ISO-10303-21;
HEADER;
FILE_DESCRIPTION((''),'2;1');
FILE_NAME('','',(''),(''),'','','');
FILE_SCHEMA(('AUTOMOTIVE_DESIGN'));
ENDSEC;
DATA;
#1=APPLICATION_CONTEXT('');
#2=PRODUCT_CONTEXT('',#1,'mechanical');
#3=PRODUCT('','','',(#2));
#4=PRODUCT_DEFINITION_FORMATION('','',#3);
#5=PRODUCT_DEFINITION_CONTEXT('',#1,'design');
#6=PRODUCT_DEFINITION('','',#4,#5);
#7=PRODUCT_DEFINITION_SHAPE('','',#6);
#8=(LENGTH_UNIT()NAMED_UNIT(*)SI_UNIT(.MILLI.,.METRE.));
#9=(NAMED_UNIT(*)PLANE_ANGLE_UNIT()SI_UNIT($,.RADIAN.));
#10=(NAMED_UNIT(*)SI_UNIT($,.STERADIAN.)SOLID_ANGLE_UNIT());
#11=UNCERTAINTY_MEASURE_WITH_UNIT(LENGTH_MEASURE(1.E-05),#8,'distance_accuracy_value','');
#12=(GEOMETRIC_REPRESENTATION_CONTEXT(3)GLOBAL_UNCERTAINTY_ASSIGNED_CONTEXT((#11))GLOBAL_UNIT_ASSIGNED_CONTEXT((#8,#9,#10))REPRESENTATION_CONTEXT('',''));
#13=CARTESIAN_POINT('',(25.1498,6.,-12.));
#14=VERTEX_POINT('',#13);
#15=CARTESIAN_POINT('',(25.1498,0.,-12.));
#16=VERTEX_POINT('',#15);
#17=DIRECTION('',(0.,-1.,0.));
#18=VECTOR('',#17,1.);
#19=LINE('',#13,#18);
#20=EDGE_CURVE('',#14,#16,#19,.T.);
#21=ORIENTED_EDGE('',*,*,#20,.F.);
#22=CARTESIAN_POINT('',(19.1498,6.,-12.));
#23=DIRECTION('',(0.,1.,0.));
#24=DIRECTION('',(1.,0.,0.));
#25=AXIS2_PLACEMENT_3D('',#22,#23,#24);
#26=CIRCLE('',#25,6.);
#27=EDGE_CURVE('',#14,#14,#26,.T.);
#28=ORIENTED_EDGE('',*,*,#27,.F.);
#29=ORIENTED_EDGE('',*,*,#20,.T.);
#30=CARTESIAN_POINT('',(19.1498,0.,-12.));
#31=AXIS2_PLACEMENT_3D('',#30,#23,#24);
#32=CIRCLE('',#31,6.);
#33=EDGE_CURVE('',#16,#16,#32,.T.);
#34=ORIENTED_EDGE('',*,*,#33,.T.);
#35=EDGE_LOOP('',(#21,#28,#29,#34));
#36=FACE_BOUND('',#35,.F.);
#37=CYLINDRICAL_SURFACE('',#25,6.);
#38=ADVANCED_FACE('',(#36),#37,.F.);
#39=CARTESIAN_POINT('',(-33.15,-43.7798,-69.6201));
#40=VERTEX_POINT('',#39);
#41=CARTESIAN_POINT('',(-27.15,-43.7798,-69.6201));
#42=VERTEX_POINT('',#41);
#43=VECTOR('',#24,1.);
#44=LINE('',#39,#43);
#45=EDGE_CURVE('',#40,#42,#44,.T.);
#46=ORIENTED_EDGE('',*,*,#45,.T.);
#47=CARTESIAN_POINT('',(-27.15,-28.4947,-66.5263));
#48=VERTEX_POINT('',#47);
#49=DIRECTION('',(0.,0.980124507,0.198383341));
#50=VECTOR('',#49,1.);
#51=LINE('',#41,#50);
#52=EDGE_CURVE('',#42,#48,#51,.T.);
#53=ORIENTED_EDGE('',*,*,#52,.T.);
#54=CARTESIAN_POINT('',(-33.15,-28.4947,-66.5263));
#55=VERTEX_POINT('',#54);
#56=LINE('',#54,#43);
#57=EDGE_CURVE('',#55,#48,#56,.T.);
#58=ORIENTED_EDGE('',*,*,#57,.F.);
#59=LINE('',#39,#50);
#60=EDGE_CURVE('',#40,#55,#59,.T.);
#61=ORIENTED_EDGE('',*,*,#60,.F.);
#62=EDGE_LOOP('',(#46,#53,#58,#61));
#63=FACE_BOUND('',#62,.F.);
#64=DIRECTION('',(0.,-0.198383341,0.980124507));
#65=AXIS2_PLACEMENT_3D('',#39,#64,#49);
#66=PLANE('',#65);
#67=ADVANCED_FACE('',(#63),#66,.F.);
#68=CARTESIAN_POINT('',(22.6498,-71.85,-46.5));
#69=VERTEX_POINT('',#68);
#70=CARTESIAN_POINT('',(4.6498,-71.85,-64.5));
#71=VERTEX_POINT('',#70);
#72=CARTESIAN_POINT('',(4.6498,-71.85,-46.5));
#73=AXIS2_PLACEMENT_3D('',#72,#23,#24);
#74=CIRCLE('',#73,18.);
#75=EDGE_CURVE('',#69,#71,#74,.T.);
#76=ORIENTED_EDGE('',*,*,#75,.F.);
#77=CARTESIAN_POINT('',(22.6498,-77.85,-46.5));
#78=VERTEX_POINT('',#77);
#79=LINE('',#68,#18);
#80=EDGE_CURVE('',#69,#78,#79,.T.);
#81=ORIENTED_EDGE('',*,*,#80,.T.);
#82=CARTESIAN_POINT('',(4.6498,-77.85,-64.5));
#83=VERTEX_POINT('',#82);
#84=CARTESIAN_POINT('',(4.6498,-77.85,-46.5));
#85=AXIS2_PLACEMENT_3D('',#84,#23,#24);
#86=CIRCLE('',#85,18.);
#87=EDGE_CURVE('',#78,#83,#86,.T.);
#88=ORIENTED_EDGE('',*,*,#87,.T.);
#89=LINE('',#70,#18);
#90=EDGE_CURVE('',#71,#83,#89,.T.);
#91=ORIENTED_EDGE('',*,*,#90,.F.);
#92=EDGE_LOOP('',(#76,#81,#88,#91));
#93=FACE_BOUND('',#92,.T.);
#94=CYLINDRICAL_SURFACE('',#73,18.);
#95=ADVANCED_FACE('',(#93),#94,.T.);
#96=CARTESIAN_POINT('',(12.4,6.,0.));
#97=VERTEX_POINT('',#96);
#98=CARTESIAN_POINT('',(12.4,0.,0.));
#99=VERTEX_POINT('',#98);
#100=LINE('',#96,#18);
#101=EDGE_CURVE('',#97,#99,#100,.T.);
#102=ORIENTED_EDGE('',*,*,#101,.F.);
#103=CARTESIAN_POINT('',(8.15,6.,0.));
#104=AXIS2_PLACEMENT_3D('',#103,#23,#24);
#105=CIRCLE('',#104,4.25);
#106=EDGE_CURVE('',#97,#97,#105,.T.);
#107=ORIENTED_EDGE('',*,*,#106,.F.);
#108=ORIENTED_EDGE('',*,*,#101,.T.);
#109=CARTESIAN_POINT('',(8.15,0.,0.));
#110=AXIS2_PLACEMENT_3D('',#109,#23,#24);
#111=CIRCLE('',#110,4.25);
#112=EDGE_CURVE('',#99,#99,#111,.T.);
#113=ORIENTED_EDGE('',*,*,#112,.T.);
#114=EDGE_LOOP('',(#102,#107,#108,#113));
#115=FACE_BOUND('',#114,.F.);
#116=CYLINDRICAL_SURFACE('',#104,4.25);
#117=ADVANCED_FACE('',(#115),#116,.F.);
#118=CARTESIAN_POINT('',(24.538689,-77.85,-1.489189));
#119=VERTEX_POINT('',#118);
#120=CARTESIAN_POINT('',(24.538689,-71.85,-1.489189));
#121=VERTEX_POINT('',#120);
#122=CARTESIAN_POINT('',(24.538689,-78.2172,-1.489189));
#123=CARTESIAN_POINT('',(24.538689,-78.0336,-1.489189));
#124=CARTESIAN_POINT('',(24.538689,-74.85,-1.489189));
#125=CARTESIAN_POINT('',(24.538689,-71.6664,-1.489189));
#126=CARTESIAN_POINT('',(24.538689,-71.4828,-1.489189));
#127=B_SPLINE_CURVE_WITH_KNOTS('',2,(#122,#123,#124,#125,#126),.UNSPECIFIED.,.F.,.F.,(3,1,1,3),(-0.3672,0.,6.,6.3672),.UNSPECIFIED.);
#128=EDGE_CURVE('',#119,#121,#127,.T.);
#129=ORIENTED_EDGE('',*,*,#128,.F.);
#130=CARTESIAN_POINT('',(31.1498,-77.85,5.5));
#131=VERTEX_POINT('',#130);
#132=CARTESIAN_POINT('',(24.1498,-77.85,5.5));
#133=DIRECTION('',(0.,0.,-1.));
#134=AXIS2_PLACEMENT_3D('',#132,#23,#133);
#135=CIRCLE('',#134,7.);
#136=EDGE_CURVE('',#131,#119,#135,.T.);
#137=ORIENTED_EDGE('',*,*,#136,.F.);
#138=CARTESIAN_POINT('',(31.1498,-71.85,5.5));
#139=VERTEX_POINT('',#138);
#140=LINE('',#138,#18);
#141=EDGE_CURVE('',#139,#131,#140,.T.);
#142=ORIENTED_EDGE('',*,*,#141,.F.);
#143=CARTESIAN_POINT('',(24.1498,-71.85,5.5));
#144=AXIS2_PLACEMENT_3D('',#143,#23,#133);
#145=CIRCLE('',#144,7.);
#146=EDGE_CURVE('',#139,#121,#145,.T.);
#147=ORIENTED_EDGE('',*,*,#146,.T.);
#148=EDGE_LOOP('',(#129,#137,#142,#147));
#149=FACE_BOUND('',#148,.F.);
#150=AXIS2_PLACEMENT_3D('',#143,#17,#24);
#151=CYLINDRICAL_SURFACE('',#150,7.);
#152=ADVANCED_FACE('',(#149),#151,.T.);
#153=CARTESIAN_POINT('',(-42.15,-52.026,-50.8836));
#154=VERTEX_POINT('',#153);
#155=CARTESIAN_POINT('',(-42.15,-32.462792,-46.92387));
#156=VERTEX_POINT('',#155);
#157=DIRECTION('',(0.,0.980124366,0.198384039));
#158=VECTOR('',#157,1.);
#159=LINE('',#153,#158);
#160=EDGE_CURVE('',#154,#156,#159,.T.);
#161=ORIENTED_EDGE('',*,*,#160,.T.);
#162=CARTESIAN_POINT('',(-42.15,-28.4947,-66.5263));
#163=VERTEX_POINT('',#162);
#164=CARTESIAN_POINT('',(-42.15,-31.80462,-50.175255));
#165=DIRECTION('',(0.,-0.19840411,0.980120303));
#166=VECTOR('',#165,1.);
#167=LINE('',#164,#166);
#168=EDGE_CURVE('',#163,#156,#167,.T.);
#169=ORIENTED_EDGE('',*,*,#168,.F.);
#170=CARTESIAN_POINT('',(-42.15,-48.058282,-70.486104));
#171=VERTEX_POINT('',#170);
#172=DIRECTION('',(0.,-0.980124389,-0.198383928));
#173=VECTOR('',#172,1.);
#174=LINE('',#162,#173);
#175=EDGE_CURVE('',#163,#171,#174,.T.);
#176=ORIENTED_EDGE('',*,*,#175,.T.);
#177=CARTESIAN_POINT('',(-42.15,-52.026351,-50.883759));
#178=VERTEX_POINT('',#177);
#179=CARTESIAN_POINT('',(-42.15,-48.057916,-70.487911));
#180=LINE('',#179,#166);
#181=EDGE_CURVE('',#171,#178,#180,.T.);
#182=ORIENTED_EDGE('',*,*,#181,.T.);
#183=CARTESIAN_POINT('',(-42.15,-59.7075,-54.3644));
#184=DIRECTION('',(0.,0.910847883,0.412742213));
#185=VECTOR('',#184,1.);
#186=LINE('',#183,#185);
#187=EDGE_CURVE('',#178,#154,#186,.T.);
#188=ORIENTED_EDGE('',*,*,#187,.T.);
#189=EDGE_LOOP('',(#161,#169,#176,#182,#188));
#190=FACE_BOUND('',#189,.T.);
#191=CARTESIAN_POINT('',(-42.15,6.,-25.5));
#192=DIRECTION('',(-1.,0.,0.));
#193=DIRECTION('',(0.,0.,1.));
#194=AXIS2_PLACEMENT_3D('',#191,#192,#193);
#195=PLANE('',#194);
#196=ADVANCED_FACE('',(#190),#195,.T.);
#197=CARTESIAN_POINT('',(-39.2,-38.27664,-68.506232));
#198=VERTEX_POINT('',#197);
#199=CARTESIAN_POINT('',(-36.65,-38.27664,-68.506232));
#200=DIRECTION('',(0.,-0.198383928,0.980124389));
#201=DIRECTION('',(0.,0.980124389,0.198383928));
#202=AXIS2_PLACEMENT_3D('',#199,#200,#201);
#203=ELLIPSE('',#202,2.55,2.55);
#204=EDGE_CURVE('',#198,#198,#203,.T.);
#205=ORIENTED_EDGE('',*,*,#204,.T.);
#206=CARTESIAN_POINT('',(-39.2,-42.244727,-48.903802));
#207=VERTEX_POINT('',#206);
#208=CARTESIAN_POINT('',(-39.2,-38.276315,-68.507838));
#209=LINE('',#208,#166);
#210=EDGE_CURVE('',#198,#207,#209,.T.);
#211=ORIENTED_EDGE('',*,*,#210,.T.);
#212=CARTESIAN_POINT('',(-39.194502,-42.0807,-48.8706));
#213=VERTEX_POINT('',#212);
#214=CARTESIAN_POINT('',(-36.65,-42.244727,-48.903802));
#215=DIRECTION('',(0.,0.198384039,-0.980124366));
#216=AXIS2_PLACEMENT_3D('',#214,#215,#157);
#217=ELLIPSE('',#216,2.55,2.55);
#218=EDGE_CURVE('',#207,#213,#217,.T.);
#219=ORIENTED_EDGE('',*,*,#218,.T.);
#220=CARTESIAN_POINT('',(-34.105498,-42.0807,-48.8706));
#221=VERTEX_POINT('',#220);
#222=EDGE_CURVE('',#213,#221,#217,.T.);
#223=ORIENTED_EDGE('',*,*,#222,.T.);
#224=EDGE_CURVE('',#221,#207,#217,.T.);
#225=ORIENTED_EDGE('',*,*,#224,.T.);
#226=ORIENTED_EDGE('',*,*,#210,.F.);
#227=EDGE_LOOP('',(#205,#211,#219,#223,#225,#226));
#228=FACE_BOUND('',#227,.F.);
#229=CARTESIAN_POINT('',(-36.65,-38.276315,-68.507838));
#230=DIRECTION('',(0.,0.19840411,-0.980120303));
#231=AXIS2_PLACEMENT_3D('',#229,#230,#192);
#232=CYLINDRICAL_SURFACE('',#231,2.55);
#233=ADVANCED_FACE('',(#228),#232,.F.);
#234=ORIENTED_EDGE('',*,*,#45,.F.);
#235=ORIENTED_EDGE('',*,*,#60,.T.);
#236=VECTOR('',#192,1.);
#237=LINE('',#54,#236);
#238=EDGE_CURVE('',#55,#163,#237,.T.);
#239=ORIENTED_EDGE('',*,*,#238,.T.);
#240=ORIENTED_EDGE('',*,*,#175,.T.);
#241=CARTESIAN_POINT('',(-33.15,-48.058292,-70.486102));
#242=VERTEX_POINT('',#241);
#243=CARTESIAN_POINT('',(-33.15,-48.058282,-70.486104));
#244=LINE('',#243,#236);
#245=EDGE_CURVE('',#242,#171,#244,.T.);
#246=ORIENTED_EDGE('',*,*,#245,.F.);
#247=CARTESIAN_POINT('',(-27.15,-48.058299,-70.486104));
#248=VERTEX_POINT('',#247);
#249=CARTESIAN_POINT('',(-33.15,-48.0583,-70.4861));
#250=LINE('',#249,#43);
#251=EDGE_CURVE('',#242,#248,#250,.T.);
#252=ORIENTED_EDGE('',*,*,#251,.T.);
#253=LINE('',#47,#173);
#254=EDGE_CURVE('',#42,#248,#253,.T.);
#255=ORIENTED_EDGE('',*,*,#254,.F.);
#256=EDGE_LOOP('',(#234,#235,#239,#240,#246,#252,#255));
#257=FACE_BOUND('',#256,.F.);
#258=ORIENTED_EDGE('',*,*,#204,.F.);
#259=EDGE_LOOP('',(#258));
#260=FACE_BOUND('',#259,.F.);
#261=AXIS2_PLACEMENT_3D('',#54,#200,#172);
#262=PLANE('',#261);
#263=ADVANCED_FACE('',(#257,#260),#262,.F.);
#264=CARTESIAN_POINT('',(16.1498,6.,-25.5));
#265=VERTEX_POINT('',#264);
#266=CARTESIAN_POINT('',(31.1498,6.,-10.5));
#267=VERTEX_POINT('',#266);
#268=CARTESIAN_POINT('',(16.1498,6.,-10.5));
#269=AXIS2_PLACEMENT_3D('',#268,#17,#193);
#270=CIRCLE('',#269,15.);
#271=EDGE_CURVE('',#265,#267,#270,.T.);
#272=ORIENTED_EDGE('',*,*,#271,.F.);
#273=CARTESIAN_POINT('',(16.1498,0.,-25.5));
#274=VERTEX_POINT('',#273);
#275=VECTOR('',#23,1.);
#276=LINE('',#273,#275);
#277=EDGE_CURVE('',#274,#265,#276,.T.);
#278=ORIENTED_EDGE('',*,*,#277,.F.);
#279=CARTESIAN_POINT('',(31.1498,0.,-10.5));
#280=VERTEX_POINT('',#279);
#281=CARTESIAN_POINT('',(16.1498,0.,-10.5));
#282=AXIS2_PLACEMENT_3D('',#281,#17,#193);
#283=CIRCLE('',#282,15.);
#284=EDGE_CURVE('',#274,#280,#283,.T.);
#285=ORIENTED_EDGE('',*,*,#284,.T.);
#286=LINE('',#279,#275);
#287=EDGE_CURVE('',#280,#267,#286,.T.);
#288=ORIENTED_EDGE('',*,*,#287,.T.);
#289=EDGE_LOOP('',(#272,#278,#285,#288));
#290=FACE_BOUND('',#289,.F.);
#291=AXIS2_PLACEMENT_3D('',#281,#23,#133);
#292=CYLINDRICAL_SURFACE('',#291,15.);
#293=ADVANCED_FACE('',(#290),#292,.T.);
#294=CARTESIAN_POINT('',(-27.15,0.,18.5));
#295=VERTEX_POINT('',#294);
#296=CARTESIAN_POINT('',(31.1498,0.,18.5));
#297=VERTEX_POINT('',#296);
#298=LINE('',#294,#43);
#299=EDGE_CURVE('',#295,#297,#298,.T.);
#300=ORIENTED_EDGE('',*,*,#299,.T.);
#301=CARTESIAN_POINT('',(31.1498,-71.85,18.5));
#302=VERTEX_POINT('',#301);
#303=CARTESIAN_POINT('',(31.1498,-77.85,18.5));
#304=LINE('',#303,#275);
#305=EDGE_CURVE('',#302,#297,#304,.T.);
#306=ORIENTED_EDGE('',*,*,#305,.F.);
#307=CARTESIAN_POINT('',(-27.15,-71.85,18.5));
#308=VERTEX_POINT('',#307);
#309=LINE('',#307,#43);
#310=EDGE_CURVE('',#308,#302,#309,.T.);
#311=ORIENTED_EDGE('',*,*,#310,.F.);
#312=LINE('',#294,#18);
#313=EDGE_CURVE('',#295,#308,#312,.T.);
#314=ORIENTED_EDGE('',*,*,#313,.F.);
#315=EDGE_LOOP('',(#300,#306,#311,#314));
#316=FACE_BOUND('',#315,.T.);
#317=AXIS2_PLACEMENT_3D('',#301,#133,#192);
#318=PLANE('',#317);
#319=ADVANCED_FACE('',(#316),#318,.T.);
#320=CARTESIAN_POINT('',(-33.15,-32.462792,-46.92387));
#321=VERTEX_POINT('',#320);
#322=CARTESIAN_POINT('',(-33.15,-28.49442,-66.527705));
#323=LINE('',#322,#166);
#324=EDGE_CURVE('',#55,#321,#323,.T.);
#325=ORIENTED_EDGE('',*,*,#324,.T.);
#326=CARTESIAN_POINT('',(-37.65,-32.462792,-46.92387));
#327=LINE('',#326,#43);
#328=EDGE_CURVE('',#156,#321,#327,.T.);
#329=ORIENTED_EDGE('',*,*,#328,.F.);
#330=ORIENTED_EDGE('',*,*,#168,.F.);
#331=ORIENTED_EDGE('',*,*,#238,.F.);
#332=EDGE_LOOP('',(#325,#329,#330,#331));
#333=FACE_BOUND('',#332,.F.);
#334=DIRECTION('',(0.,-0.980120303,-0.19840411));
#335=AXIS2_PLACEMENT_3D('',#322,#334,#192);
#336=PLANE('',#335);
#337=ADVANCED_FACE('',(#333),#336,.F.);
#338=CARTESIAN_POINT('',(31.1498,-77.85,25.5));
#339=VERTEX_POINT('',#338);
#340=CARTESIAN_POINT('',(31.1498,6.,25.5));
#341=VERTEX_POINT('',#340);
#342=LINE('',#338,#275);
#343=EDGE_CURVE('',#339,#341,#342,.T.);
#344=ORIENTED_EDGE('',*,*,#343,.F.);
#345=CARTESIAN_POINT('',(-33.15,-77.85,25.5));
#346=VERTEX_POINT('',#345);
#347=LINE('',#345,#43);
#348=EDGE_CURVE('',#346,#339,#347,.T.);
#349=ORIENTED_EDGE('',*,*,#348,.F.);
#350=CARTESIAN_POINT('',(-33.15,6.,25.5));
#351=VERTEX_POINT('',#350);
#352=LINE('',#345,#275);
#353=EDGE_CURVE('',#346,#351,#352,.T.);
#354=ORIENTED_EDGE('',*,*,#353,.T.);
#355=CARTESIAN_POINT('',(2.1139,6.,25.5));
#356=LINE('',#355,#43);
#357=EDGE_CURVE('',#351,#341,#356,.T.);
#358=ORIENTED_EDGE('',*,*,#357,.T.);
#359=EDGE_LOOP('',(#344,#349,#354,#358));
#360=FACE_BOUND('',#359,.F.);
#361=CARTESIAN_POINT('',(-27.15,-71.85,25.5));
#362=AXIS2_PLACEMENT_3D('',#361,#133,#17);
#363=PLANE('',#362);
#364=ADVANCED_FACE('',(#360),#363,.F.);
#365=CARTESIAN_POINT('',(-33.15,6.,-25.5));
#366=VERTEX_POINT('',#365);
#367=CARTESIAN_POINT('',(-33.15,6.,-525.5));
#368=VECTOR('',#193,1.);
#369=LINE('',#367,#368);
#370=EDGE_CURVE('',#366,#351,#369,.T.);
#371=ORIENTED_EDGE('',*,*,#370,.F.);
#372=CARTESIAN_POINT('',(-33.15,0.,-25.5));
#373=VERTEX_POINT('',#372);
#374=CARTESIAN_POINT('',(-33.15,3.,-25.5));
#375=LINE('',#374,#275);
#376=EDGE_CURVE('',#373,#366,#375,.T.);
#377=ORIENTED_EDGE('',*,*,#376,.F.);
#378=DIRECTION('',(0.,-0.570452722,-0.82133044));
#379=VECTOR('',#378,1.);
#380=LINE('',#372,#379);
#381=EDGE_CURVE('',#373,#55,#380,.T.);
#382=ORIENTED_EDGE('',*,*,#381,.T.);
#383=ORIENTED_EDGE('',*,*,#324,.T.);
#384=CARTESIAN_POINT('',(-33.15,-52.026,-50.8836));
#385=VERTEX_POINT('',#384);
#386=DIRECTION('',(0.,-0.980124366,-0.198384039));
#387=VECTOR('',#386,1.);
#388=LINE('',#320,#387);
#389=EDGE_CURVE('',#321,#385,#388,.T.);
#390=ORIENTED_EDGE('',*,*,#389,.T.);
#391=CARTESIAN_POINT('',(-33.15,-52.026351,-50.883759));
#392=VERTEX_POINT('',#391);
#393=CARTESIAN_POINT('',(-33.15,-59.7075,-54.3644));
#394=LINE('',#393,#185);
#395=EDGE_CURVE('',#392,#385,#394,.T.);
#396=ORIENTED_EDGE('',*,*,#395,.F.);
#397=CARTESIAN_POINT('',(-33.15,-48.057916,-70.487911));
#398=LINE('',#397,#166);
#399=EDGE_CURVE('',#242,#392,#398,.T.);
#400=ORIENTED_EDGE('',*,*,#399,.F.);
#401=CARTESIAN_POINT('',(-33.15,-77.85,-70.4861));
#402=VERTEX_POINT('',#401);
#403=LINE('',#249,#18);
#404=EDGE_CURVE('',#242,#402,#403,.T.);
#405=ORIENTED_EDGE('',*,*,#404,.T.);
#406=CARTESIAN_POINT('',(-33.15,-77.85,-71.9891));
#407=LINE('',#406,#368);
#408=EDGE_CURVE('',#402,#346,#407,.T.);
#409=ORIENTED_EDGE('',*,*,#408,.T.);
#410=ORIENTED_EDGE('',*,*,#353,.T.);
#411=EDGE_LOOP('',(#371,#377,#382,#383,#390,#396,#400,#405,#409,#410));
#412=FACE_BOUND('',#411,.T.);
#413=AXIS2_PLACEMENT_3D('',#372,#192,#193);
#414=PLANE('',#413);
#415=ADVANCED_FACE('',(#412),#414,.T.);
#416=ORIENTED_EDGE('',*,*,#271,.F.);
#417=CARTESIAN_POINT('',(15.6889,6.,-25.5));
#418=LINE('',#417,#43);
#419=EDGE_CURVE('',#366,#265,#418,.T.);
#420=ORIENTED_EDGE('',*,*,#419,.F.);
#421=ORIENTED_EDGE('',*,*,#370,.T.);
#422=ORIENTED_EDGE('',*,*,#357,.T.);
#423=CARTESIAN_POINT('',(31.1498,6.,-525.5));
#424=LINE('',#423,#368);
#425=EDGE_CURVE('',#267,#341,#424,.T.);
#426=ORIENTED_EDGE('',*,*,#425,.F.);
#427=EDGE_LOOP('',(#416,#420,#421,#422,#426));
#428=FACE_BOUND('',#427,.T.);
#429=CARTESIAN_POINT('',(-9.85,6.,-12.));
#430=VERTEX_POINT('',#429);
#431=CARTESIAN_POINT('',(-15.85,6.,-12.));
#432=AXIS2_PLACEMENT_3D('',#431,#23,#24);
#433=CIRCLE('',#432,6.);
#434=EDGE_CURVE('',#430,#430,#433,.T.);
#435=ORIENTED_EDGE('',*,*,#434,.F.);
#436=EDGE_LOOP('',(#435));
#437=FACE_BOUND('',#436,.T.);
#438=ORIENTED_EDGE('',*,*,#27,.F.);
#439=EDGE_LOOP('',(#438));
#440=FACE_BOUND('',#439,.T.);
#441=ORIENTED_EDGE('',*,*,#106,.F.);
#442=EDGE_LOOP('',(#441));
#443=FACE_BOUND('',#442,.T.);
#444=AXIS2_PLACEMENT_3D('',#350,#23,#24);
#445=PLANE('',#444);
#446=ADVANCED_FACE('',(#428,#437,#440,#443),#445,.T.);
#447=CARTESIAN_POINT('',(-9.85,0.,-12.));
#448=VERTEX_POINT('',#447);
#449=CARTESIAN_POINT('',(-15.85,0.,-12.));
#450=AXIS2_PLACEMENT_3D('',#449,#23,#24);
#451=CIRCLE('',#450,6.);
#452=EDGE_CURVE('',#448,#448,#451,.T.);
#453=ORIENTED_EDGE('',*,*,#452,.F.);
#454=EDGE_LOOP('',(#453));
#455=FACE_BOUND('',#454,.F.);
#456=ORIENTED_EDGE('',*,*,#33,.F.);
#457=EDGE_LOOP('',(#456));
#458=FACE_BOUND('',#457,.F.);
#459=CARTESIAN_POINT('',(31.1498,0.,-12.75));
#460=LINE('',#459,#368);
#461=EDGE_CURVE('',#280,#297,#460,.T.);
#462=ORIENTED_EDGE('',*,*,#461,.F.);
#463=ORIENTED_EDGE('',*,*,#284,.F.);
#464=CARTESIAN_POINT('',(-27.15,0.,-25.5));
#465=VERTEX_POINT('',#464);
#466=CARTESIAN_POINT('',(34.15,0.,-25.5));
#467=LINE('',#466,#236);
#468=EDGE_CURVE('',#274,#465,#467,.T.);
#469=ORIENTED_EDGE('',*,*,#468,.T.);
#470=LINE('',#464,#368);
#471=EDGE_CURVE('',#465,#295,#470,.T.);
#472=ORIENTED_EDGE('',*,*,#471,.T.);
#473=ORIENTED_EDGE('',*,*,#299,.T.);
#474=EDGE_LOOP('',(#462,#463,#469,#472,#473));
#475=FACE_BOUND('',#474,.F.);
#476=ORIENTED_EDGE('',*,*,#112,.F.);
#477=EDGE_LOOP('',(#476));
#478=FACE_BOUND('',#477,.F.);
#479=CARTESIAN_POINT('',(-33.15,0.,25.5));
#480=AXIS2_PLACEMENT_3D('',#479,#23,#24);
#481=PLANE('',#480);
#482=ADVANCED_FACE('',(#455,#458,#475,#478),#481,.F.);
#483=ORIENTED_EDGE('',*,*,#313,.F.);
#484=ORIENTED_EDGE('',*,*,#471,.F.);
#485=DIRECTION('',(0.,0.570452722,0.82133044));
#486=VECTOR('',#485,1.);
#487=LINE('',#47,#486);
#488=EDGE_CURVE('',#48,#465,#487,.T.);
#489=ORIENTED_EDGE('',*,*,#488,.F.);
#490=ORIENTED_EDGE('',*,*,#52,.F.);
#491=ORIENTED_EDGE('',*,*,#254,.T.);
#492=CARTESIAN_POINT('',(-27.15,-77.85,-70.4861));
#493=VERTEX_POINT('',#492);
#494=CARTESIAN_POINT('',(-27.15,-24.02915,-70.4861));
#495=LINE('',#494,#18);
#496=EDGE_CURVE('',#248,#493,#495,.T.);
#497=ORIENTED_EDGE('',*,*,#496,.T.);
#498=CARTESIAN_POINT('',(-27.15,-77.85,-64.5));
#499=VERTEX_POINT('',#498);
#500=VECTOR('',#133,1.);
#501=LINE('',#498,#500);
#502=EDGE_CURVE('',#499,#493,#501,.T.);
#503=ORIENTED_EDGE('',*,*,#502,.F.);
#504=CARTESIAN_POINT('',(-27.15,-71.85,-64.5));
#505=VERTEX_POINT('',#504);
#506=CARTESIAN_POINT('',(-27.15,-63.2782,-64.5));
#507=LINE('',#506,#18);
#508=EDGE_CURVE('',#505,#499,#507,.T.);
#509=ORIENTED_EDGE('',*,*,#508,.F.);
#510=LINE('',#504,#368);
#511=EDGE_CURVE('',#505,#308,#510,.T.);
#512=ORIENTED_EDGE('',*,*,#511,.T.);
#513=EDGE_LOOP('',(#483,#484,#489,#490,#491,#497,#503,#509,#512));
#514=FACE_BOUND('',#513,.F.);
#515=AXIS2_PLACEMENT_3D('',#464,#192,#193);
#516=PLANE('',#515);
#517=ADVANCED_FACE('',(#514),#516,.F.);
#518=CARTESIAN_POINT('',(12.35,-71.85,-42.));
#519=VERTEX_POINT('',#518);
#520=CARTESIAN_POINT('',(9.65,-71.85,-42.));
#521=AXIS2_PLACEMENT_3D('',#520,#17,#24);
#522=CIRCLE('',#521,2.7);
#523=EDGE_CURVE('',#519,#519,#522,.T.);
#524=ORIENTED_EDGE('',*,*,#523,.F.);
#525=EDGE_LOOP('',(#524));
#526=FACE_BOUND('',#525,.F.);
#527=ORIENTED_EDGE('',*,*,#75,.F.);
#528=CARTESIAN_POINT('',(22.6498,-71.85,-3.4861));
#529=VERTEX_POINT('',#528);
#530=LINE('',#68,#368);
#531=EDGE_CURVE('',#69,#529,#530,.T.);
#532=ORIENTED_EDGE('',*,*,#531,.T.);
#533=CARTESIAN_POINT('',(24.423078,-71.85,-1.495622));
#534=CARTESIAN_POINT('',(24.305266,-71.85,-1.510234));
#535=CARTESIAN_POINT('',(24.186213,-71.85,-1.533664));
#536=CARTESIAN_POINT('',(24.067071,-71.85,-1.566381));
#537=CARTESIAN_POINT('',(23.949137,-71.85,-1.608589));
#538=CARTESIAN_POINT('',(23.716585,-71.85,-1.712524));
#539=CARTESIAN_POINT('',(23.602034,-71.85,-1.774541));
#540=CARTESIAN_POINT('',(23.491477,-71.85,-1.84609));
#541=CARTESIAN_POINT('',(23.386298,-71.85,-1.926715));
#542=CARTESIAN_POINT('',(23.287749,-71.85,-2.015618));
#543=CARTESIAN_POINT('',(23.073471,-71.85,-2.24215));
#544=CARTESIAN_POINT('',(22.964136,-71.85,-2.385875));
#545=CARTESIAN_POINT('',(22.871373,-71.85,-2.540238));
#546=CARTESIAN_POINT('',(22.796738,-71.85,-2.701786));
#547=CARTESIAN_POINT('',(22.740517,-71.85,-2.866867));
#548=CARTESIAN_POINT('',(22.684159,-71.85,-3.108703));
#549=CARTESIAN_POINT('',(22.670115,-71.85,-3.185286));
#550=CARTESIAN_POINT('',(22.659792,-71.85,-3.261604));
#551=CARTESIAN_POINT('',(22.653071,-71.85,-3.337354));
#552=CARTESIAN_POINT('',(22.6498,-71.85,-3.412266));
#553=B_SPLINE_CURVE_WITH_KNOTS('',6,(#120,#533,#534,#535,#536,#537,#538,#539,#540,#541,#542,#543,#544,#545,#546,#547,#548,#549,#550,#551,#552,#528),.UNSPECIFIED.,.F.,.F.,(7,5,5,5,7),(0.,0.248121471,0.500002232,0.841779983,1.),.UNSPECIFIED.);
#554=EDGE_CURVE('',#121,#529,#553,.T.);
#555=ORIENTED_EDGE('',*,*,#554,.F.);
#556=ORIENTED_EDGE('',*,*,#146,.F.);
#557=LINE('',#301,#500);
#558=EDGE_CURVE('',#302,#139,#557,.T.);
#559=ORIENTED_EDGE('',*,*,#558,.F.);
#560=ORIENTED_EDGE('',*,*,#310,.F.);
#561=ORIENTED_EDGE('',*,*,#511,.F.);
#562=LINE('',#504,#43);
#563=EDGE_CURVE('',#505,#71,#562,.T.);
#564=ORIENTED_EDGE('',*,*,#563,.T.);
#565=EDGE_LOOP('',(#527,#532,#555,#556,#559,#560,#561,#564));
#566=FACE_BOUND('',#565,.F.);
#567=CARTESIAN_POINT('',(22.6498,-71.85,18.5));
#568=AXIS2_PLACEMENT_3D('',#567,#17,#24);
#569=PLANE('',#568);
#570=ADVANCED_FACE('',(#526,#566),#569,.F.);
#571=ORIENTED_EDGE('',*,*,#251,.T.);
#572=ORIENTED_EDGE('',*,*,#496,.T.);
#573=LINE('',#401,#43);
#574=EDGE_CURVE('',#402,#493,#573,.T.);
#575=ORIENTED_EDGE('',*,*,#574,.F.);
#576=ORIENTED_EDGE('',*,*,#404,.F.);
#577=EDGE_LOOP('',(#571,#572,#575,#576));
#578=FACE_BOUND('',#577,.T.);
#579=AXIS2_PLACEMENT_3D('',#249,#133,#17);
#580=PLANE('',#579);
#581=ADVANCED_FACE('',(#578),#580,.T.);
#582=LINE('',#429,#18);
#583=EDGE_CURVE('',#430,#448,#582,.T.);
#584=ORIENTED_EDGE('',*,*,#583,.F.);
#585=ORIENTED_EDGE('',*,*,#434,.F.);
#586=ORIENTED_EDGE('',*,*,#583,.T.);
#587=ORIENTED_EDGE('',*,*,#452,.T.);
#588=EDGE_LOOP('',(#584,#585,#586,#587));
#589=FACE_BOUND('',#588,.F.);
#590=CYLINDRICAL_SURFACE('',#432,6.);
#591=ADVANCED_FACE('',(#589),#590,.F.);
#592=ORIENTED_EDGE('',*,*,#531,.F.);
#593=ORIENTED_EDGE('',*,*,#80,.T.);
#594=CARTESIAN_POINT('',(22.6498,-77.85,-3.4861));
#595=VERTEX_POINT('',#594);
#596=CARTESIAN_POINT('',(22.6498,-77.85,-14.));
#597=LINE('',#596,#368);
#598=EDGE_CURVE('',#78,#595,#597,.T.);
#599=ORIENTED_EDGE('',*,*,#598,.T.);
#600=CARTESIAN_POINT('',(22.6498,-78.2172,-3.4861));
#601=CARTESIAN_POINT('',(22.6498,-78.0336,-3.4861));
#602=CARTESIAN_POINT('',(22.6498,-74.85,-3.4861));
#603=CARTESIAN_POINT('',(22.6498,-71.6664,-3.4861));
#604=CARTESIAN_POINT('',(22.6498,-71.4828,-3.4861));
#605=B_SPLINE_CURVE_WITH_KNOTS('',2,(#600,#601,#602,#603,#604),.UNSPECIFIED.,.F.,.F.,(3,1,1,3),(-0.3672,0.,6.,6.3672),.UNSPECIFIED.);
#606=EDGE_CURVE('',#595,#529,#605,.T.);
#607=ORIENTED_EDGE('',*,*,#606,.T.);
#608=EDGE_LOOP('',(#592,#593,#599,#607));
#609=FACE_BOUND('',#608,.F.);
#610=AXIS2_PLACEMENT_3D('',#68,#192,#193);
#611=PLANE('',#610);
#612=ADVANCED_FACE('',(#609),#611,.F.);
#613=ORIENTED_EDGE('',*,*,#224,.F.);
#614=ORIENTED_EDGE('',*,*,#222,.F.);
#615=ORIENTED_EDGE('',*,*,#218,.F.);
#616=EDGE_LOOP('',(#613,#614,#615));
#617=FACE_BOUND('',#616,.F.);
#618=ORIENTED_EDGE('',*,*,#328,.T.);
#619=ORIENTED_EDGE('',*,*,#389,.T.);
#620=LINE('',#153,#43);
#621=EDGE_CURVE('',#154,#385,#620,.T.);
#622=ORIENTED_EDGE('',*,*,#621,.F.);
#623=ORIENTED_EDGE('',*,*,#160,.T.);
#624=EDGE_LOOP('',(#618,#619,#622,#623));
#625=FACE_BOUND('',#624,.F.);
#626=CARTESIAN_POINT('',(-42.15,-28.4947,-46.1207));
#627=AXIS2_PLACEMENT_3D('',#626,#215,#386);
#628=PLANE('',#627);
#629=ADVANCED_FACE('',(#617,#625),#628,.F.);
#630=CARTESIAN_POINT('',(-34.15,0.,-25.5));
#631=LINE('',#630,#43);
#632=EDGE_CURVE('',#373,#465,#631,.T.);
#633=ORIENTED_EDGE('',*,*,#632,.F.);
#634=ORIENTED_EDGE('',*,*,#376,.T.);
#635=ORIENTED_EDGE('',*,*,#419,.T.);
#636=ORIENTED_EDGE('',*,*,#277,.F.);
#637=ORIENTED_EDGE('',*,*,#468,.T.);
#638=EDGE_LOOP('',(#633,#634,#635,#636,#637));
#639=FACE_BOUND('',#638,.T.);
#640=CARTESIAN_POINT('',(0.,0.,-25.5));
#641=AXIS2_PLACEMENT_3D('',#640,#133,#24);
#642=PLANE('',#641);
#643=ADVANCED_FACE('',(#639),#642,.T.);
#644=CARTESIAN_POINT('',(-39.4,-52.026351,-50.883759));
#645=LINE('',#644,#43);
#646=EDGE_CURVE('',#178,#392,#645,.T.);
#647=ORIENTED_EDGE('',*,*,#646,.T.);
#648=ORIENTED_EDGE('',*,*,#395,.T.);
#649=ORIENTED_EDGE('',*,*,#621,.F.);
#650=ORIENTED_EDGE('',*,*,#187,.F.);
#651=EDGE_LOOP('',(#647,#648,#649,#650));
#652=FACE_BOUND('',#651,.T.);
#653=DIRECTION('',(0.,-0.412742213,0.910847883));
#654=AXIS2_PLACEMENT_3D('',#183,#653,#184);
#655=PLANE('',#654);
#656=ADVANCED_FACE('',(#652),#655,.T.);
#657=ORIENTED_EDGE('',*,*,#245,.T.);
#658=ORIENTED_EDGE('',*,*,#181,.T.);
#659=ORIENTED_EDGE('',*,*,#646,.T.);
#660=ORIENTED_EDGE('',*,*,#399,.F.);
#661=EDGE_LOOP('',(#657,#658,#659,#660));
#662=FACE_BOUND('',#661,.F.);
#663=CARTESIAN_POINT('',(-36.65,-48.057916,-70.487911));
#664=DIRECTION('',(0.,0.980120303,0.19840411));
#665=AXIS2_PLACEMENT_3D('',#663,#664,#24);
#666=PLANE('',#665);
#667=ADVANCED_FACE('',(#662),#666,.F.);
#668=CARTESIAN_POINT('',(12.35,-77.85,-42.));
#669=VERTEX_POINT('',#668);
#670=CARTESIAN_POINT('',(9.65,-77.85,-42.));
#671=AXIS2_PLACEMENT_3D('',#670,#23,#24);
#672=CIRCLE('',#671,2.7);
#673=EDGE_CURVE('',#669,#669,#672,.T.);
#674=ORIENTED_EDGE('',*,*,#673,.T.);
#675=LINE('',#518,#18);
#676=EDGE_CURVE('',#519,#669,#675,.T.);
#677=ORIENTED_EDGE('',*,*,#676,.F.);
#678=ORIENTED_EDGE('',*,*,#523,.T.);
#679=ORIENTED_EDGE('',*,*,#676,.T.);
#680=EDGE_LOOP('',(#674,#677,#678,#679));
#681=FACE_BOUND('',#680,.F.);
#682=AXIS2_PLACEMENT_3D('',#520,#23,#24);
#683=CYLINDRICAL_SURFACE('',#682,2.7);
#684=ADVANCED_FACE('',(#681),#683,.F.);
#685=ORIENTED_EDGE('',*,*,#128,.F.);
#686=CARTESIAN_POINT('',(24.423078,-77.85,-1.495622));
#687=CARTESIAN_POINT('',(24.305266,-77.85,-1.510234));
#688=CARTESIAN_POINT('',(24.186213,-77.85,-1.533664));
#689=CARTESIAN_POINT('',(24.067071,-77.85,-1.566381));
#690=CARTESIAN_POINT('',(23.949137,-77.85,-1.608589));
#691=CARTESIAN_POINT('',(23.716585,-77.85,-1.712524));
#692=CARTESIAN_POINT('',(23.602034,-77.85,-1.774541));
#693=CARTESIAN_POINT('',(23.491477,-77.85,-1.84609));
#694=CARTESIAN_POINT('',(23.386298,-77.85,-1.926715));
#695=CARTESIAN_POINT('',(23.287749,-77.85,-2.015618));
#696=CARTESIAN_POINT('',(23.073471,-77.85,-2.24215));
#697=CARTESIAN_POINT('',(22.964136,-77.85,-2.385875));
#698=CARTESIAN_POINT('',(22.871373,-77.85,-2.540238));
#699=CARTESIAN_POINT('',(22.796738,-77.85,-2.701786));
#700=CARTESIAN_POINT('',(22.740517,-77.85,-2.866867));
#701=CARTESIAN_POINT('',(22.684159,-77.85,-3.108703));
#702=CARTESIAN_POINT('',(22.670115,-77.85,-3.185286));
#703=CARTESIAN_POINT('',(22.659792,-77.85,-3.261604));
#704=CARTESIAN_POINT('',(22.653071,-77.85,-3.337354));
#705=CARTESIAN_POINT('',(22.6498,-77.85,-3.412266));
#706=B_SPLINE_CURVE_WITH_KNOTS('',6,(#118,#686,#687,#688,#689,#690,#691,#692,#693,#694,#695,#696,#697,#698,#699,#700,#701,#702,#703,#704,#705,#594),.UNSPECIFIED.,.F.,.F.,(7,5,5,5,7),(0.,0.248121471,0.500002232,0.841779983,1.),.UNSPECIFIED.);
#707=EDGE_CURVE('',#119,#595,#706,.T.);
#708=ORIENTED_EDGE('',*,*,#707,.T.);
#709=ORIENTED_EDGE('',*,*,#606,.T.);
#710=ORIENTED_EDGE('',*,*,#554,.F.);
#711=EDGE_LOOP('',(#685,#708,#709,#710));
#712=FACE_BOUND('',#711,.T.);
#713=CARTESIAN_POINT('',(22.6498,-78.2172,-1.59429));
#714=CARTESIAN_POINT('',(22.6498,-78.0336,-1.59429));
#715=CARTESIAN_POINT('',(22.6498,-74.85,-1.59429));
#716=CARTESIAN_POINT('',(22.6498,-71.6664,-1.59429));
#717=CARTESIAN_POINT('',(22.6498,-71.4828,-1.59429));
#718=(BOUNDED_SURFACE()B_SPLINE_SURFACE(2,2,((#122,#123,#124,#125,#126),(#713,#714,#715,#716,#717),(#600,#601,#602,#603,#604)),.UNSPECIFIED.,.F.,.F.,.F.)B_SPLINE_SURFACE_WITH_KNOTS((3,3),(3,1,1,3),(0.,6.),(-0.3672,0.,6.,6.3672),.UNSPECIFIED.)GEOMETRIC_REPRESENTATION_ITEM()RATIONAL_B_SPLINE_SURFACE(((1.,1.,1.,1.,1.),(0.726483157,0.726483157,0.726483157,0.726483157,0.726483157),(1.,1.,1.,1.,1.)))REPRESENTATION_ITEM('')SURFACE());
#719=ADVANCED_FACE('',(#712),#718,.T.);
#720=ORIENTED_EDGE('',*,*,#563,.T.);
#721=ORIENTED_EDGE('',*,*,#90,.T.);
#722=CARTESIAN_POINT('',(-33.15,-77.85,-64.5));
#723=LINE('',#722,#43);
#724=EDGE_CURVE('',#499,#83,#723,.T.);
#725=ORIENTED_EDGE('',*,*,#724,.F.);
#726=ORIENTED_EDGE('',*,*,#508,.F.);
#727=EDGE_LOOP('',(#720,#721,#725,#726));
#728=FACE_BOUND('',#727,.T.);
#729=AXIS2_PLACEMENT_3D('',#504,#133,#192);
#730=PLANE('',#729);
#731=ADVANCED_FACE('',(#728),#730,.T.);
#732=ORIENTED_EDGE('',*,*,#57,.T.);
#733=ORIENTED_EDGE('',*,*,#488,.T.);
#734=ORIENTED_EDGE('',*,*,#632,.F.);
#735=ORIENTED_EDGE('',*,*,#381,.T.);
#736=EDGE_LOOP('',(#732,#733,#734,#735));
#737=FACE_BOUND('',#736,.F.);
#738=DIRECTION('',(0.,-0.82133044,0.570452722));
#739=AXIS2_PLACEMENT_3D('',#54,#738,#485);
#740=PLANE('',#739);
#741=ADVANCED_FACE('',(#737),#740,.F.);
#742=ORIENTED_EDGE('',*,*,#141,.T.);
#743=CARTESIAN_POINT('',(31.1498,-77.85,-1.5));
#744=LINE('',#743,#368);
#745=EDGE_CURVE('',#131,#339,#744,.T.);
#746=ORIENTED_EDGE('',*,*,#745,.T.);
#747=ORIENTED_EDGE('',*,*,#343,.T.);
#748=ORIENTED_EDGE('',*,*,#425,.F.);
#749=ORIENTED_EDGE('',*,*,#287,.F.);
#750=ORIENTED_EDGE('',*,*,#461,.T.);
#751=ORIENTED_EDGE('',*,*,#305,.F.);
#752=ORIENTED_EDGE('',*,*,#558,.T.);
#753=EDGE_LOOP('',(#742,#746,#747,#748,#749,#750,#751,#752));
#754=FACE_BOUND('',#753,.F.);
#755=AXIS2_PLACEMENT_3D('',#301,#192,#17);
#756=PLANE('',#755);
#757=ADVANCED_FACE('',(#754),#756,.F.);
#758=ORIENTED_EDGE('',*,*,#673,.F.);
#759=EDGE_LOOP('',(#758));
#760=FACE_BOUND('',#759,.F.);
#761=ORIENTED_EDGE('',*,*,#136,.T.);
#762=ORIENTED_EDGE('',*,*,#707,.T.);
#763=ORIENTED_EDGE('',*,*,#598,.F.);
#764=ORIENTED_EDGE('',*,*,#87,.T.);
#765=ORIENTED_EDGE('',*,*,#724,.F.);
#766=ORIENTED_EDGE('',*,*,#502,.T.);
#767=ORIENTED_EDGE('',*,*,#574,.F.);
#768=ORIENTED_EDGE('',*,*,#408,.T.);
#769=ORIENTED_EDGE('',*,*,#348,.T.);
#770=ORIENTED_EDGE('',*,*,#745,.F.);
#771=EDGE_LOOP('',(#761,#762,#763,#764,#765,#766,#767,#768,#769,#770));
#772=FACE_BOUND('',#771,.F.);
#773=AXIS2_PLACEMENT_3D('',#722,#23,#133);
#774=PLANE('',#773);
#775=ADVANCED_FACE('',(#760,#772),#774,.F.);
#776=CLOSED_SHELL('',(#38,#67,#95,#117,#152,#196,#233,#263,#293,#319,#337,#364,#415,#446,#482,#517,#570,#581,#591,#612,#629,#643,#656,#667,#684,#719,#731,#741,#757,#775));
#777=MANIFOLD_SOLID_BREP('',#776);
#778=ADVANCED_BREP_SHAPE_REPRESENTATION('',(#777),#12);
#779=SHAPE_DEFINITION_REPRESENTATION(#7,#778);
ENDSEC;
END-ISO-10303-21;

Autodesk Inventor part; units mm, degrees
ref_plane "YZ Plane" through (0, 0, 0) normal (1, 0, 0) x (0, 1, 0)
ref_plane "XZ Plane" through (0, 0, 0) normal (0, 1, 0) x (-1, 0, 0)
ref_plane "XY Plane" through (0, 0, 0) normal (0, 0, 1) x (1, 0, 0)
sketch "Sketch1" plane through (0, 0, 0) normal (0, 1, 0) x (-1, 0, 0)
  line L0 (0, -25.5) -> (-34.15, -25.5)
  line L1 (-34.15, -25.5) -> (-34.15, 0)
  line L2 (-34.15, 0) -> (-34.15, 25.5)
  line L3 (-34.15, 25.5) -> (0, 25.5)
  line L4 (0, 25.5) -> (34.15, 25.5)
  line L5 (34.15, 25.5) -> (34.15, 0)
  line L6 (34.15, 0) -> (34.15, -25.5)
  line L7 (34.15, -25.5) -> (0, -25.5)
  point P0 (0, 0)
extrude "Extrusion1" add sketch "Sketch1" along normal blind 7
sketch "Sketch3" plane through (-34.15, 0, 25.5) normal (0, 0, 1) x (1, 0, 0)
  line L0 (0, 0) -> (0, -78.85)
  point P0 (34.15, 0)
  dimension "d7" = 78.85
sketch "Sketch4" plane through (-34.15, 0, -25.5) normal (-1, 0, 0) x (0, 0, 1)
  line L0 (51, 0) -> (51, -78.85)
  line L1 (51, -78.85) -> (-39, -78.85)
  line L2 (-39, -78.85) -> (-39, -71.85)
  line L3 (0, 0) -> (-39, -71.85)
  line L4 (0, 0) -> (51, 0)
  point P0 (25.5, 0)
  dimension "d10" = 90
  dimension "d11" = 7
extrude "Extrusion2" add sketch "Sketch4" against normal blind 7
sketch "Sketch6" plane through (0, 7, 0) normal (0, 1, 0) x (1, 0, 0)
  line L0 (34.15, -25.5) -> (34.15, 25.5) projected
  line L1 (34.15, 25.5) -> (34.15, 0)
  line L2 (-34.15, 25.5) -> (-34.15, -25.5) projected
  circle A0 centre (8.15, 0) radius 5
  point P0 (0, 0)
  dimension "d20" = 10
extrude "Extrusion4" cut sketch "Sketch6" against normal blind 10
sketch "Sketch7" plane through (-27.15, 0, -25.5) normal (1, 0, 0) x (0, 0, -1)
  line L0 (-51, -78.85) -> (39, -78.85) projected
  line L1 (-51, -78.85) -> (39, -78.85)
  line L2 (39, -78.85) -> (39, -71.85) projected
  line L3 (39, -78.85) -> (39, -71.85)
  line L4 (39, -71.85) -> (-51, -71.85)
  line L5 (-51, 0) -> (-51, -78.85) projected
  line L6 (-51, -78.85) -> (-51, -71.85)
  point P0 (-25.5, 0)
sketch "Sketch8" plane through (0, 0, 0) normal (0, -1, 0) x (1, 0, 0)
  circle A0 centre (8.15, 0) radius 5 projected
  line L0 (8.15, 18.5) -> (34.15, 18.5)
  line L1 (34.15, 25.5) -> (34.15, -25.5) projected
  line L2 (8.15, 25.5) -> (34.15, 25.5)
  line L3 (8.15, 25.5) -> (-27.15, 25.5)
  line L4 (-27.15, 25.5) -> (-27.15, -25.5) projected
  line L5 (8.15, 18.5) -> (-27.15, 18.5)
  line L6 (34.15, 25.5) -> (34.15, 18.5)
  line L7 (-27.15, 25.5) -> (-27.15, 18.5)
  point P0 (0, 0)
extrude "Extrusion6" add sketch "Sketch7" along normal blind 58.5
extrude "Extrusion7" add sketch "Sketch8" along normal blind 78.75 contours L5 L4 L3 L2 L1 L0
sketch "Sketch9" plane through (31.35, 0, -25.5) normal (1, 0, 0) x (0, 0, -1)
  line L0 (-51, -78.75) -> (-51, 7) projected
  line L1 (-44, 0) -> (-44, -71.85) projected
  line L2 (-51, -78.75) -> (-44, -78.75)
  line L3 (-44, -78.75) -> (-44, -71.85)
  line L4 (-44, -71.85) -> (-51, -71.85)
  line L5 (-51, -71.85) -> (-51, -78.75)
  point P0 (-25.5, 0)
extrude "Extrusion8" cut sketch "Sketch9" along normal blind 10
sketch "Boceto11" plane through (-34.15, -78.85, -64.5) normal (0, -1, 0) x (1, 0, 0)
  line L0 (72.0718, 89.9914) -> (72.0718, 37.9883)
  line L1 (72.0718, 37.9883) -> (65.5278, 37.9883)
  line L2 (65.5278, 37.9883) -> (65.5278, 89.9914)
  line L3 (72.0718, 89.9914) -> (72.0718, 92.1751)
  line L4 (72.0718, 92.1751) -> (65.5278, 92.1751)
  line L5 (65.5278, 92.1751) -> (65.5278, 89.9914)
  point P0 (34.15, 64.5)
extrude "Extrusión9" cut sketch "Boceto11" against normal blind 1000
sketch "Boceto24" plane through (-27.15, 0, -25.5) normal (0, 0, -1) x (-1, 0, 0)
  line L0 (7, -71.85) -> (7, -78.85) projected
  line L1 (7, -78.35) -> (7, -78.85)
  line L2 (7, -78.85) -> (-58.5, -78.85) projected
  line L3 (-58.5, -78.85) -> (-58.5, -77.85)
  line L4 (-58.5, -71.85) -> (-58.5, -78.85) projected
  line L5 (-58.5, -77.85) -> (6, -77.85)
  line L6 (7, -77.85) -> (7, -78.85)
  line L7 (7, -78.85) -> (-58.8392, -78.85)
  line L8 (-58.5278, 7) -> (7, 7) projected
  line L9 (7, -78.85) -> (7, 7)
  line L10 (7, 7) -> (6, 7)
  line L11 (6, 6) -> (6, -77.85)
  line L12 (-58.5278, -71.85) -> (-58.5278, 7) projected
  line L13 (-58.5278, 7) -> (-58.5278, 6)
  line L14 (-58.5278, 6) -> (6, 6)
  line L15 (7, 0) -> (7, 7) projected
  line L16 (7, 6) -> (7, 7)
  line L17 (7, 7) -> (-58.5278, 7)
  point P0 (-27.15, 0)
  dimension "d65" = 1
  dimension "d66" = 1
  dimension "d67" = 1
extrude "Extrusión19" cut sketch "Boceto24" along normal mid plane 1000
sketch "Boceto27" plane through (31.3778, 0, -25.5) normal (0, 0, -1) x (-1, 0, 0)
  line L0 (0, -71.85) -> (0, 6) projected
  line L1 (0, 6) -> (0.228, 6)
  line L2 (0, 6) -> (64.5278, 6) projected
  line L3 (0.228, 6) -> (0.228, -77.85)
  line L4 (0.0278, -77.85) -> (64.5278, -77.85) projected
  line L5 (0.0278, -71.85) -> (0.0278, -77.85) projected
  line L6 (0.228, -77.85) -> (0.0278, -77.85)
  line L7 (0.0278, -77.85) -> (0, 6)
  line L8 (0, 6) -> (0, -77.85)
  line L9 (0, -77.85) -> (0.0278, -77.85)
  point P0 (31.3778, 0)
  dimension "d73" = 0.228
extrude "Extrusión21" cut sketch "Boceto27" along normal mid plane 1000
sketch "Boceto31" plane through (-33.15, 0, -25.5) normal (-1, 0, 0) x (0, 0, 1)
  circle A0 centre (64.38, -38.5153) radius 2.6
  point P0 (25.5, 0)
  point P1 (64.38, -49.4573)
sketch "Boceto32" plane through (-27.15, -71.85, 18.5) normal (0, 1, 0) x (1, 0, 0)
  circle A0 centre (47, 71.5) radius 5 projected
  circle A1 centre (47, 71.5) radius 5
  line L0 (52, 71.5) -> (58.2998, 71.5)
  line L1 (67, 83) -> (67, -7)
  line L2 (58.2998, -7) -> (-6, -7) projected
  line L3 (67, -7) -> (58.2998, -7)
  line L4 (58.2998, -7) -> (58.2998, 83)
  line L5 (47, 76.5) -> (47, 83)
  line L6 (-6, 83) -> (0, 83) projected
  line L7 (-6, 83) -> (-6, 91.5)
  line L8 (-6, 91.5) -> (67, 91.5)
  line L9 (67, 91.5) -> (67, 83)
  line L10 (-6, 83) -> (58.2998, 83)
  point P0 (27.15, 18.5)
extrude "Extrusión23" add sketch "Boceto32" against normal blind 6 contours L4 L10 L6 L7 L8 L9 L1 L3
sketch "Boceto33" plane through (-33.15, -77.85, 25.5) normal (-1, 0, 0) x (0, 0, 1)
  line L0 (0, 83.85) -> (0, 0) projected
  line L1 (0, 74.4354) -> (10.1255, 74.4354)
  line L2 (10.1255, 74.4354) -> (10.1255, 56.6115)
  line L3 (10.9445, 54.9975) -> (18.0243, 49.8171)
  line L4 (18.8039, 48.5979) -> (20.1084, 42.1205)
  line L5 (0, 11.6181) -> (18.1478, 11.6181)
  line L6 (20.1478, 13.6181) -> (20.1478, 41.7256)
  arc A0 (10.1255, 56.6115) -> (10.9445, 54.9975) centre (12.1255, 56.6115) ccw
  arc A1 (18.8039, 48.5979) -> (18.0243, 49.8171) centre (16.8433, 48.203) ccw
  arc A2 (20.1478, 41.7256) -> (20.1084, 42.1205) centre (18.1478, 41.7256) ccw
  arc A3 (18.1478, 11.6181) -> (20.1478, 13.6181) centre (18.1478, 13.6181) ccw
  point P0 (-25.5, 77.85)
  dimension "d91" = 2
extrude "Extrusión24" add sketch "Boceto33" against normal blind 6
extrude "Extrusión25" cut sketch "Boceto31" against normal blind 6
sketch "Boceto34" plane through (-27.15, -77.85, 25.5) normal (1, 0, 0) x (0, 0, -1)
  line L0 (-18.1478, 11.6181) -> (-21.8775, 11.6181)
  line L1 (-21.8775, 11.6181) -> (-21.8775, 48.067)
  line L2 (-21.8775, 48.067) -> (-10.1255, 56.8358)
  line L3 (-10.1255, 74.4354) -> (-10.1255, 56.6115) projected
  line L4 (-10.1255, 56.8358) -> (-10.1255, 48.9642)
  line L5 (-10.1255, 48.9642) -> (-16.6729, 42.1735)
  line L6 (-16.6729, 42.1735) -> (-18.1478, 11.6181)
  point P0 (25.5, 77.85)
extrude "Extrusión26" add sketch "Boceto34" against normal blind 6
fillet "Empalme5" radius 10 3 edges at (-30.15, -21.0142, 35.6255) (-30.15, -29.783, 47.3775) (-30.15, -66.2319, 47.3775)
sketch "Boceto37" plane through (-33.15, 6, 25.5) normal (0, 1, 0) x (1, 0, 0)
  circle A0 centre (52.2998, 37.5) radius 6
  circle A1 centre (17.3, 37.5) radius 6
  line L0 (64.2998, 37.5) -> (52.2998, 37.5)
  circle A2 centre (52.2998, 37.5) radius 6
  dimension "d109" = 12
  dimension "d110" = 12
  dimension "d229" = 12
extrude "Extrusión29" cut sketch "Boceto37" against normal blind 6.5
sketch "Boceto39" plane through (-27.15, -71.85, 18.5) normal (0, 1, 0) x (1, 0, 0)
  line L0 (58.2998, -7) -> (58.2998, 0)
  line L1 (58.2998, 44) -> (58.2998, 91.5)
  line L2 (-6, 91.5) -> (67, 91.5) projected
  line L3 (0, 0) -> (58.2998, 0) projected
  line L4 (58.2998, 0) -> (58.2998, -7) projected
  line L5 (58.2998, -7) -> (67, -7) projected
  line L6 (58.2998, -7) -> (67, -7)
  line L7 (67, 91.5) -> (-6, 91.5) projected
  line L8 (67, -7) -> (67, 91.5)
  line L9 (67, 91.5) -> (58.2998, 91.5)
  line L10 (58.2998, 0) -> (58.2998, 44)
  point P0 (27.15, 18.5)
extrude "Extrusión31" cut sketch "Boceto39" against normal blind 10
sketch "Boceto41" plane through (-27.15, -71.85, 18.5) normal (0, 1, 0) x (1, 0, 0)
  circle A0 centre (36.8, 60.5) radius 2.7
  line L0 (-6, -7) -> (-6, 44) projected
  line L1 (-6, -7) -> (36.8, -7)
  line L2 (36.8, -7) -> (36.8, 60.5)
  line L3 (36.8, 60.5) -> (-6, 60.5)
  line L4 (-6, 60.5) -> (-6, -7)
  point P0 (27.15, 18.5)
  point P1 (58.2998, 91.5)
  dimension "d126" = 5.4
  dimension "d213" = 42.8
  dimension "d214" = 67.5
extrude "Extrusión32" cut sketch "Boceto41" against normal blind 10 contours A0 L2 L3 | L3 L2 A0
sketch "Sketch42" plane through (-27.15, -71.85, 18.5) normal (0, 1, 0) x (1, 0, 0)
  circle A0 centre (36.8, 60.5) radius 2.7 projected
  line L0 (36.8, 63.2) -> (36.8, 60.5)
  circle A1 centre (31.7998, 65) radius 18
  line L1 (0, 0) -> (0, 83) projected
  line L2 (0, 83) -> (31.7998, 83)
  line L3 (58.2998, 91.5) -> (-6, 91.5) projected
  line L4 (49.7998, 65) -> (49.7998, 0)
  line L5 (58.2998, 0) -> (0, 0) projected
  line L6 (0, 0) -> (58.2998, 0) projected
  line L7 (49.7998, 0) -> (58.2998, 0)
  line L8 (58.2998, 91.5) -> (58.2998, -7) projected
  line L9 (58.2998, 0) -> (58.2998, 91.5)
  line L10 (0, 83) -> (0, 44) projected
  line L11 (0, 83) -> (-6, 83)
  line L12 (-6, 91.5) -> (-6, 83) projected
  line L13 (-6, 83) -> (-6, 91.5)
  line L14 (58.2998, 91.5) -> (58.2998, 0) projected
  line L15 (-6, 91.5) -> (58.2998, 91.5)
  point P0 (27.15, 18.5)
  point P1 (58.2998, -7)
  dimension "d129" = 36
extrude "Extrusion33" cut sketch "Sketch42" against normal blind 10 contours A1 L2 L11 L12 L3 L8 L5 L4
sketch "Sketch43" plane through (-27.15, -71.85, 18.5) normal (0, 0, -1) x (-1, 0, 0)
  line L0 (6, -6) -> (-58.2998, -6) projected
  line L1 (0, 0) -> (-49.7998, 0) projected
  line L2 (-58.2998, -6) -> (-49.7998, -6)
  line L3 (-49.7998, -6) -> (-49.7998, 0)
  line L4 (-49.7998, 0) -> (-58.2998, 0)
  line L5 (-58.2998, 0) -> (-58.2998, -6)
  point P0 (-27.15, 71.85)
extrude "Extrusion34" add sketch "Sketch43" along normal blind 20
fillet "Fillet7" radius 7 1 edges at (31.1498, -74.85, -1.5)
fillet "Fillet8" radius 2 1 edges at (22.6498, -74.85, -1.5)
sketch "Sketch44" plane through (-33.15, 0, -25.5) normal (-1, 0, 0) x (0, 0, 1)
  line L0 (68.8577, -26.7837) -> (65.1452, -24.0136) projected
  line L1 (61.1255, -3.4146) -> (51, -3.4146) projected
  line L2 (65.1452, -24.0136) -> (51, -24.0136)
  line L3 (51, -24.0136) -> (51, -3.4146)
  line L4 (51, -3.4146) -> (65.1452, -3.4146)
  line L5 (65.1452, -3.4146) -> (65.1452, -24.0136)
  point P0 (25.5, 0)
extrude "Extrusion35" cut sketch "Sketch44" against normal blind 20
sketch "Sketch45" plane through (-33.15, 6, 25.5) normal (0, 1, 0) x (1, 0, 0)
  circle A0 centre (41.3, 25.5) radius 5 projected
  circle A1 centre (41.3, 25.5) radius 4.25
  circle A2 centre (41.3, 25.5) radius 5
  point P0 (33.15, 25.5)
  dimension "d138" = 8.5
extrude "Extrusion36" add sketch "Sketch45" against normal blind 6
sketch "Sketch47" plane through (-33.15, 0, -25.5) normal (-1, 0, 0) x (0, 0, 1)
  line L0 (-44.1201, -43.7798) -> (-41.0263, -28.4947)
  line L1 (-39, -71.85) -> (0, 0) projected
  line L2 (-41.0263, -28.4947) -> (0, 0)
  line L3 (0, 0) -> (-39, -71.85)
  line L4 (-44.1201, -43.7798) -> (-44.1201, -71.85)
  line L5 (-44.1201, -71.85) -> (-39, -71.85)
  point P0 (25.5, 0)
extrude "Extrusion37" add sketch "Sketch47" against normal blind 6
sketch "Sketch50" plane through (-33.15, 6, -25.5) normal (-1, 0, 0) x (0, 0, 1)
  line L0 (-44.1201, -49.7798) -> (-41.0263, -34.4947) projected
  line L1 (-41.0263, -34.4947) -> (-46.4891, -61.4839)
  line L2 (-39, -83.85) -> (51, -83.85) projected
  line L3 (-39, -83.85) -> (-46.4891, -83.85)
  line L4 (-46.4891, -83.85) -> (-46.4891, -61.4839)
  line L5 (-41.0263, -34.4947) -> (-39, -69.2782)
  line L6 (-39, -69.2782) -> (-39, -83.85)
  point P0 (25.5, -6)
extrude "Extrusion38" add sketch "Sketch50" against normal blind 6
sketch "Sketch51" plane through (-33.15, 6, -25.5) normal (-1, 0, 0) x (0, 0, 1)
  line L0 (-41.0263, -34.4947) -> (-46.4891, -61.4839) projected
  line L1 (-41.0263, -34.4947) -> (-46.4891, -61.4839)
  line L2 (-46.4891, -61.4839) -> (-15.8808, -61.4839)
  line L3 (-41.0263, -34.4947) -> (-15.8808, -34.4947)
  line L4 (-15.8808, -34.4947) -> (-15.8808, -61.4839)
  point P0 (25.5, -6)
extrude "Extrusion39" add sketch "Sketch51" along normal blind 9
sketch "Sketch54" plane through (-33.15, 6, -25.5) normal (-1, 0, 0) x (0, 0, 1)
  line L0 (51, -72.2319) -> (51, -83.85) projected
  line L1 (51, -83.85) -> (86.3988, -83.85)
  line L2 (86.3988, -83.85) -> (86.3988, -18.2813)
  line L3 (86.3988, -18.2813) -> (51, -18.2813)
  line L4 (51, -18.2813) -> (51, -83.85)
  point P0 (25.5, -6)
extrude "Extrusion41" cut sketch "Sketch54" against normal blind 26.989
sketch "Sketch55" plane through (-33.15, -55.4839, -71.9891) normal (0, 0.1984, -0.9801) x (-1, 0, 0)
  line L0 (9, 6.0722) -> (9, 32.525) projected
  line L1 (9, 17.5562) -> (3.5, 17.5562)
  line L2 (9, 17.5562) -> (14.5, 17.5562) construction
  circle A0 centre (3.5, 17.5562) radius 2.55
  point P0 (-33.15, 68.6627)
  point P1 (9, 32.5248)
  dimension "d153" = 5.5
  dimension "d154" = 180
  dimension "d155" = 5.1
extrude "Extrusion42" cut sketch "Sketch55" against normal blind 20
sketch "Sketch71" plane through (-33.15, -55.4839, -71.9891) normal (0, 0.1984, -0.9801) x (-1, 0, 0)
  circle A0 centre (3.5, 17.5562) radius 2.55 projected
  line L0 (3.5, 17.5562) -> (3.5, 7.5762)
  line L1 (0, 27.5365) -> (9, 27.5365) projected
  line L2 (0, 79.6022) -> (0, -2.5812) projected
  line L3 (9, 27.5365) -> (9, 0) projected
  line L4 (0, 17.5562) -> (9, 17.5562)
  line L5 (9, 17.5562) -> (9, 7.5762)
  line L6 (9, 7.5762) -> (0, 7.5762)
  line L7 (0, 7.5762) -> (0, 17.5562)
  line L8 (9, 0) -> (0, 0)
  line L9 (0, 0) -> (0, 7.5762)
  line L10 (0, 7.5762) -> (9, 7.5762)
  line L11 (9, 7.5762) -> (9, 0)
  point P0 (-33.15, 68.6627)
  point P1 (0, 0)
  point P2 (0, 7.5762)
  dimension "d215" = 9.98
extrude "Extrusion57" cut sketch "Sketch71" against normal blind 60 contours L6 L3 L8 L2
sketch "Sketch73" plane through (-42.15, 6, -25.5) normal (-1, 0, 0) x (0, 0, 1)
  line L0 (-46.4891, -61.4839) -> (-41.0263, -34.4947) projected
  line L1 (-41.0263, -34.4947) -> (-42.9731, -44.113)
  line L2 (-42.9731, -44.113) -> (-23.3706, -48.0807)
  line L3 (-41.0263, -34.4947) -> (-15.8808, -34.4947) projected
  line L4 (-20.6207, -34.4947) -> (-25.3836, -58.026)
  line L5 (-44.9861, -54.0583) -> (-15.8808, -59.9494) projected
  line L6 (-25.3836, -58.026) -> (-15.8808, -59.9494)
  line L7 (-20.6207, -34.4947) -> (-5.4041, -34.4947)
  line L8 (-5.4041, -34.4947) -> (-5.4041, -64.759)
  line L9 (-5.4041, -64.759) -> (-28.8644, -65.7075)
  line L10 (-28.8644, -65.7075) -> (-25.3836, -58.026)
  point P0 (25.5, -6)
  dimension "d218" = 20
sketch "Sketch74" plane through (-27.15, -55.4839, -71.9891) normal (0, 0.1984, -0.9801) x (-1, 0, 0)
  line L0 (6, 27.5365) -> (0, 27.5365) projected
  line L1 (6, 27.5365) -> (16.0486, 27.5365)
  line L2 (16.0486, 27.5365) -> (16.0486, 36.432)
  line L3 (16.0486, 36.432) -> (6, 36.432)
  line L4 (6, 36.432) -> (6, 27.5365)
  point P0 (-27.15, 68.6627)
extrude "Extrusion58" cut sketch "Sketch74" against normal blind 60
extrude "Extrusion59" cut sketch "Sketch73" against normal blind 9 contours L4 L3 L7 L8 L9 L10
fillet "Fillet10" radius 15 1 edges at (31.1498, 3, -25.5)
sketch "Sketch76" plane through (-33.15, -77.85, 25.5) normal (-1, 0, 0) x (0, 0, 1)
  line L0 (-95.9861, 29.7917) -> (-76.3836, 25.824) projected
  line L1 (-95.9861, 29.7917) -> (-95.9861, 0)
  line L2 (-97.4891, 0) -> (0, 0) projected
  line L3 (-97.4891, 22.3661) -> (-95.9861, 29.7917) projected
  line L4 (-97.4891, 0) -> (-97.4891, 22.3661)
  line L5 (-97.4891, 22.3661) -> (-95.9861, 29.7917)
  point P0 (-25.5, 77.85)
extrude "Extrusion60" cut sketch "Sketch76" against normal blind 9
properties part number "DC23[R][F][1]" material "Aluminio 6061"
